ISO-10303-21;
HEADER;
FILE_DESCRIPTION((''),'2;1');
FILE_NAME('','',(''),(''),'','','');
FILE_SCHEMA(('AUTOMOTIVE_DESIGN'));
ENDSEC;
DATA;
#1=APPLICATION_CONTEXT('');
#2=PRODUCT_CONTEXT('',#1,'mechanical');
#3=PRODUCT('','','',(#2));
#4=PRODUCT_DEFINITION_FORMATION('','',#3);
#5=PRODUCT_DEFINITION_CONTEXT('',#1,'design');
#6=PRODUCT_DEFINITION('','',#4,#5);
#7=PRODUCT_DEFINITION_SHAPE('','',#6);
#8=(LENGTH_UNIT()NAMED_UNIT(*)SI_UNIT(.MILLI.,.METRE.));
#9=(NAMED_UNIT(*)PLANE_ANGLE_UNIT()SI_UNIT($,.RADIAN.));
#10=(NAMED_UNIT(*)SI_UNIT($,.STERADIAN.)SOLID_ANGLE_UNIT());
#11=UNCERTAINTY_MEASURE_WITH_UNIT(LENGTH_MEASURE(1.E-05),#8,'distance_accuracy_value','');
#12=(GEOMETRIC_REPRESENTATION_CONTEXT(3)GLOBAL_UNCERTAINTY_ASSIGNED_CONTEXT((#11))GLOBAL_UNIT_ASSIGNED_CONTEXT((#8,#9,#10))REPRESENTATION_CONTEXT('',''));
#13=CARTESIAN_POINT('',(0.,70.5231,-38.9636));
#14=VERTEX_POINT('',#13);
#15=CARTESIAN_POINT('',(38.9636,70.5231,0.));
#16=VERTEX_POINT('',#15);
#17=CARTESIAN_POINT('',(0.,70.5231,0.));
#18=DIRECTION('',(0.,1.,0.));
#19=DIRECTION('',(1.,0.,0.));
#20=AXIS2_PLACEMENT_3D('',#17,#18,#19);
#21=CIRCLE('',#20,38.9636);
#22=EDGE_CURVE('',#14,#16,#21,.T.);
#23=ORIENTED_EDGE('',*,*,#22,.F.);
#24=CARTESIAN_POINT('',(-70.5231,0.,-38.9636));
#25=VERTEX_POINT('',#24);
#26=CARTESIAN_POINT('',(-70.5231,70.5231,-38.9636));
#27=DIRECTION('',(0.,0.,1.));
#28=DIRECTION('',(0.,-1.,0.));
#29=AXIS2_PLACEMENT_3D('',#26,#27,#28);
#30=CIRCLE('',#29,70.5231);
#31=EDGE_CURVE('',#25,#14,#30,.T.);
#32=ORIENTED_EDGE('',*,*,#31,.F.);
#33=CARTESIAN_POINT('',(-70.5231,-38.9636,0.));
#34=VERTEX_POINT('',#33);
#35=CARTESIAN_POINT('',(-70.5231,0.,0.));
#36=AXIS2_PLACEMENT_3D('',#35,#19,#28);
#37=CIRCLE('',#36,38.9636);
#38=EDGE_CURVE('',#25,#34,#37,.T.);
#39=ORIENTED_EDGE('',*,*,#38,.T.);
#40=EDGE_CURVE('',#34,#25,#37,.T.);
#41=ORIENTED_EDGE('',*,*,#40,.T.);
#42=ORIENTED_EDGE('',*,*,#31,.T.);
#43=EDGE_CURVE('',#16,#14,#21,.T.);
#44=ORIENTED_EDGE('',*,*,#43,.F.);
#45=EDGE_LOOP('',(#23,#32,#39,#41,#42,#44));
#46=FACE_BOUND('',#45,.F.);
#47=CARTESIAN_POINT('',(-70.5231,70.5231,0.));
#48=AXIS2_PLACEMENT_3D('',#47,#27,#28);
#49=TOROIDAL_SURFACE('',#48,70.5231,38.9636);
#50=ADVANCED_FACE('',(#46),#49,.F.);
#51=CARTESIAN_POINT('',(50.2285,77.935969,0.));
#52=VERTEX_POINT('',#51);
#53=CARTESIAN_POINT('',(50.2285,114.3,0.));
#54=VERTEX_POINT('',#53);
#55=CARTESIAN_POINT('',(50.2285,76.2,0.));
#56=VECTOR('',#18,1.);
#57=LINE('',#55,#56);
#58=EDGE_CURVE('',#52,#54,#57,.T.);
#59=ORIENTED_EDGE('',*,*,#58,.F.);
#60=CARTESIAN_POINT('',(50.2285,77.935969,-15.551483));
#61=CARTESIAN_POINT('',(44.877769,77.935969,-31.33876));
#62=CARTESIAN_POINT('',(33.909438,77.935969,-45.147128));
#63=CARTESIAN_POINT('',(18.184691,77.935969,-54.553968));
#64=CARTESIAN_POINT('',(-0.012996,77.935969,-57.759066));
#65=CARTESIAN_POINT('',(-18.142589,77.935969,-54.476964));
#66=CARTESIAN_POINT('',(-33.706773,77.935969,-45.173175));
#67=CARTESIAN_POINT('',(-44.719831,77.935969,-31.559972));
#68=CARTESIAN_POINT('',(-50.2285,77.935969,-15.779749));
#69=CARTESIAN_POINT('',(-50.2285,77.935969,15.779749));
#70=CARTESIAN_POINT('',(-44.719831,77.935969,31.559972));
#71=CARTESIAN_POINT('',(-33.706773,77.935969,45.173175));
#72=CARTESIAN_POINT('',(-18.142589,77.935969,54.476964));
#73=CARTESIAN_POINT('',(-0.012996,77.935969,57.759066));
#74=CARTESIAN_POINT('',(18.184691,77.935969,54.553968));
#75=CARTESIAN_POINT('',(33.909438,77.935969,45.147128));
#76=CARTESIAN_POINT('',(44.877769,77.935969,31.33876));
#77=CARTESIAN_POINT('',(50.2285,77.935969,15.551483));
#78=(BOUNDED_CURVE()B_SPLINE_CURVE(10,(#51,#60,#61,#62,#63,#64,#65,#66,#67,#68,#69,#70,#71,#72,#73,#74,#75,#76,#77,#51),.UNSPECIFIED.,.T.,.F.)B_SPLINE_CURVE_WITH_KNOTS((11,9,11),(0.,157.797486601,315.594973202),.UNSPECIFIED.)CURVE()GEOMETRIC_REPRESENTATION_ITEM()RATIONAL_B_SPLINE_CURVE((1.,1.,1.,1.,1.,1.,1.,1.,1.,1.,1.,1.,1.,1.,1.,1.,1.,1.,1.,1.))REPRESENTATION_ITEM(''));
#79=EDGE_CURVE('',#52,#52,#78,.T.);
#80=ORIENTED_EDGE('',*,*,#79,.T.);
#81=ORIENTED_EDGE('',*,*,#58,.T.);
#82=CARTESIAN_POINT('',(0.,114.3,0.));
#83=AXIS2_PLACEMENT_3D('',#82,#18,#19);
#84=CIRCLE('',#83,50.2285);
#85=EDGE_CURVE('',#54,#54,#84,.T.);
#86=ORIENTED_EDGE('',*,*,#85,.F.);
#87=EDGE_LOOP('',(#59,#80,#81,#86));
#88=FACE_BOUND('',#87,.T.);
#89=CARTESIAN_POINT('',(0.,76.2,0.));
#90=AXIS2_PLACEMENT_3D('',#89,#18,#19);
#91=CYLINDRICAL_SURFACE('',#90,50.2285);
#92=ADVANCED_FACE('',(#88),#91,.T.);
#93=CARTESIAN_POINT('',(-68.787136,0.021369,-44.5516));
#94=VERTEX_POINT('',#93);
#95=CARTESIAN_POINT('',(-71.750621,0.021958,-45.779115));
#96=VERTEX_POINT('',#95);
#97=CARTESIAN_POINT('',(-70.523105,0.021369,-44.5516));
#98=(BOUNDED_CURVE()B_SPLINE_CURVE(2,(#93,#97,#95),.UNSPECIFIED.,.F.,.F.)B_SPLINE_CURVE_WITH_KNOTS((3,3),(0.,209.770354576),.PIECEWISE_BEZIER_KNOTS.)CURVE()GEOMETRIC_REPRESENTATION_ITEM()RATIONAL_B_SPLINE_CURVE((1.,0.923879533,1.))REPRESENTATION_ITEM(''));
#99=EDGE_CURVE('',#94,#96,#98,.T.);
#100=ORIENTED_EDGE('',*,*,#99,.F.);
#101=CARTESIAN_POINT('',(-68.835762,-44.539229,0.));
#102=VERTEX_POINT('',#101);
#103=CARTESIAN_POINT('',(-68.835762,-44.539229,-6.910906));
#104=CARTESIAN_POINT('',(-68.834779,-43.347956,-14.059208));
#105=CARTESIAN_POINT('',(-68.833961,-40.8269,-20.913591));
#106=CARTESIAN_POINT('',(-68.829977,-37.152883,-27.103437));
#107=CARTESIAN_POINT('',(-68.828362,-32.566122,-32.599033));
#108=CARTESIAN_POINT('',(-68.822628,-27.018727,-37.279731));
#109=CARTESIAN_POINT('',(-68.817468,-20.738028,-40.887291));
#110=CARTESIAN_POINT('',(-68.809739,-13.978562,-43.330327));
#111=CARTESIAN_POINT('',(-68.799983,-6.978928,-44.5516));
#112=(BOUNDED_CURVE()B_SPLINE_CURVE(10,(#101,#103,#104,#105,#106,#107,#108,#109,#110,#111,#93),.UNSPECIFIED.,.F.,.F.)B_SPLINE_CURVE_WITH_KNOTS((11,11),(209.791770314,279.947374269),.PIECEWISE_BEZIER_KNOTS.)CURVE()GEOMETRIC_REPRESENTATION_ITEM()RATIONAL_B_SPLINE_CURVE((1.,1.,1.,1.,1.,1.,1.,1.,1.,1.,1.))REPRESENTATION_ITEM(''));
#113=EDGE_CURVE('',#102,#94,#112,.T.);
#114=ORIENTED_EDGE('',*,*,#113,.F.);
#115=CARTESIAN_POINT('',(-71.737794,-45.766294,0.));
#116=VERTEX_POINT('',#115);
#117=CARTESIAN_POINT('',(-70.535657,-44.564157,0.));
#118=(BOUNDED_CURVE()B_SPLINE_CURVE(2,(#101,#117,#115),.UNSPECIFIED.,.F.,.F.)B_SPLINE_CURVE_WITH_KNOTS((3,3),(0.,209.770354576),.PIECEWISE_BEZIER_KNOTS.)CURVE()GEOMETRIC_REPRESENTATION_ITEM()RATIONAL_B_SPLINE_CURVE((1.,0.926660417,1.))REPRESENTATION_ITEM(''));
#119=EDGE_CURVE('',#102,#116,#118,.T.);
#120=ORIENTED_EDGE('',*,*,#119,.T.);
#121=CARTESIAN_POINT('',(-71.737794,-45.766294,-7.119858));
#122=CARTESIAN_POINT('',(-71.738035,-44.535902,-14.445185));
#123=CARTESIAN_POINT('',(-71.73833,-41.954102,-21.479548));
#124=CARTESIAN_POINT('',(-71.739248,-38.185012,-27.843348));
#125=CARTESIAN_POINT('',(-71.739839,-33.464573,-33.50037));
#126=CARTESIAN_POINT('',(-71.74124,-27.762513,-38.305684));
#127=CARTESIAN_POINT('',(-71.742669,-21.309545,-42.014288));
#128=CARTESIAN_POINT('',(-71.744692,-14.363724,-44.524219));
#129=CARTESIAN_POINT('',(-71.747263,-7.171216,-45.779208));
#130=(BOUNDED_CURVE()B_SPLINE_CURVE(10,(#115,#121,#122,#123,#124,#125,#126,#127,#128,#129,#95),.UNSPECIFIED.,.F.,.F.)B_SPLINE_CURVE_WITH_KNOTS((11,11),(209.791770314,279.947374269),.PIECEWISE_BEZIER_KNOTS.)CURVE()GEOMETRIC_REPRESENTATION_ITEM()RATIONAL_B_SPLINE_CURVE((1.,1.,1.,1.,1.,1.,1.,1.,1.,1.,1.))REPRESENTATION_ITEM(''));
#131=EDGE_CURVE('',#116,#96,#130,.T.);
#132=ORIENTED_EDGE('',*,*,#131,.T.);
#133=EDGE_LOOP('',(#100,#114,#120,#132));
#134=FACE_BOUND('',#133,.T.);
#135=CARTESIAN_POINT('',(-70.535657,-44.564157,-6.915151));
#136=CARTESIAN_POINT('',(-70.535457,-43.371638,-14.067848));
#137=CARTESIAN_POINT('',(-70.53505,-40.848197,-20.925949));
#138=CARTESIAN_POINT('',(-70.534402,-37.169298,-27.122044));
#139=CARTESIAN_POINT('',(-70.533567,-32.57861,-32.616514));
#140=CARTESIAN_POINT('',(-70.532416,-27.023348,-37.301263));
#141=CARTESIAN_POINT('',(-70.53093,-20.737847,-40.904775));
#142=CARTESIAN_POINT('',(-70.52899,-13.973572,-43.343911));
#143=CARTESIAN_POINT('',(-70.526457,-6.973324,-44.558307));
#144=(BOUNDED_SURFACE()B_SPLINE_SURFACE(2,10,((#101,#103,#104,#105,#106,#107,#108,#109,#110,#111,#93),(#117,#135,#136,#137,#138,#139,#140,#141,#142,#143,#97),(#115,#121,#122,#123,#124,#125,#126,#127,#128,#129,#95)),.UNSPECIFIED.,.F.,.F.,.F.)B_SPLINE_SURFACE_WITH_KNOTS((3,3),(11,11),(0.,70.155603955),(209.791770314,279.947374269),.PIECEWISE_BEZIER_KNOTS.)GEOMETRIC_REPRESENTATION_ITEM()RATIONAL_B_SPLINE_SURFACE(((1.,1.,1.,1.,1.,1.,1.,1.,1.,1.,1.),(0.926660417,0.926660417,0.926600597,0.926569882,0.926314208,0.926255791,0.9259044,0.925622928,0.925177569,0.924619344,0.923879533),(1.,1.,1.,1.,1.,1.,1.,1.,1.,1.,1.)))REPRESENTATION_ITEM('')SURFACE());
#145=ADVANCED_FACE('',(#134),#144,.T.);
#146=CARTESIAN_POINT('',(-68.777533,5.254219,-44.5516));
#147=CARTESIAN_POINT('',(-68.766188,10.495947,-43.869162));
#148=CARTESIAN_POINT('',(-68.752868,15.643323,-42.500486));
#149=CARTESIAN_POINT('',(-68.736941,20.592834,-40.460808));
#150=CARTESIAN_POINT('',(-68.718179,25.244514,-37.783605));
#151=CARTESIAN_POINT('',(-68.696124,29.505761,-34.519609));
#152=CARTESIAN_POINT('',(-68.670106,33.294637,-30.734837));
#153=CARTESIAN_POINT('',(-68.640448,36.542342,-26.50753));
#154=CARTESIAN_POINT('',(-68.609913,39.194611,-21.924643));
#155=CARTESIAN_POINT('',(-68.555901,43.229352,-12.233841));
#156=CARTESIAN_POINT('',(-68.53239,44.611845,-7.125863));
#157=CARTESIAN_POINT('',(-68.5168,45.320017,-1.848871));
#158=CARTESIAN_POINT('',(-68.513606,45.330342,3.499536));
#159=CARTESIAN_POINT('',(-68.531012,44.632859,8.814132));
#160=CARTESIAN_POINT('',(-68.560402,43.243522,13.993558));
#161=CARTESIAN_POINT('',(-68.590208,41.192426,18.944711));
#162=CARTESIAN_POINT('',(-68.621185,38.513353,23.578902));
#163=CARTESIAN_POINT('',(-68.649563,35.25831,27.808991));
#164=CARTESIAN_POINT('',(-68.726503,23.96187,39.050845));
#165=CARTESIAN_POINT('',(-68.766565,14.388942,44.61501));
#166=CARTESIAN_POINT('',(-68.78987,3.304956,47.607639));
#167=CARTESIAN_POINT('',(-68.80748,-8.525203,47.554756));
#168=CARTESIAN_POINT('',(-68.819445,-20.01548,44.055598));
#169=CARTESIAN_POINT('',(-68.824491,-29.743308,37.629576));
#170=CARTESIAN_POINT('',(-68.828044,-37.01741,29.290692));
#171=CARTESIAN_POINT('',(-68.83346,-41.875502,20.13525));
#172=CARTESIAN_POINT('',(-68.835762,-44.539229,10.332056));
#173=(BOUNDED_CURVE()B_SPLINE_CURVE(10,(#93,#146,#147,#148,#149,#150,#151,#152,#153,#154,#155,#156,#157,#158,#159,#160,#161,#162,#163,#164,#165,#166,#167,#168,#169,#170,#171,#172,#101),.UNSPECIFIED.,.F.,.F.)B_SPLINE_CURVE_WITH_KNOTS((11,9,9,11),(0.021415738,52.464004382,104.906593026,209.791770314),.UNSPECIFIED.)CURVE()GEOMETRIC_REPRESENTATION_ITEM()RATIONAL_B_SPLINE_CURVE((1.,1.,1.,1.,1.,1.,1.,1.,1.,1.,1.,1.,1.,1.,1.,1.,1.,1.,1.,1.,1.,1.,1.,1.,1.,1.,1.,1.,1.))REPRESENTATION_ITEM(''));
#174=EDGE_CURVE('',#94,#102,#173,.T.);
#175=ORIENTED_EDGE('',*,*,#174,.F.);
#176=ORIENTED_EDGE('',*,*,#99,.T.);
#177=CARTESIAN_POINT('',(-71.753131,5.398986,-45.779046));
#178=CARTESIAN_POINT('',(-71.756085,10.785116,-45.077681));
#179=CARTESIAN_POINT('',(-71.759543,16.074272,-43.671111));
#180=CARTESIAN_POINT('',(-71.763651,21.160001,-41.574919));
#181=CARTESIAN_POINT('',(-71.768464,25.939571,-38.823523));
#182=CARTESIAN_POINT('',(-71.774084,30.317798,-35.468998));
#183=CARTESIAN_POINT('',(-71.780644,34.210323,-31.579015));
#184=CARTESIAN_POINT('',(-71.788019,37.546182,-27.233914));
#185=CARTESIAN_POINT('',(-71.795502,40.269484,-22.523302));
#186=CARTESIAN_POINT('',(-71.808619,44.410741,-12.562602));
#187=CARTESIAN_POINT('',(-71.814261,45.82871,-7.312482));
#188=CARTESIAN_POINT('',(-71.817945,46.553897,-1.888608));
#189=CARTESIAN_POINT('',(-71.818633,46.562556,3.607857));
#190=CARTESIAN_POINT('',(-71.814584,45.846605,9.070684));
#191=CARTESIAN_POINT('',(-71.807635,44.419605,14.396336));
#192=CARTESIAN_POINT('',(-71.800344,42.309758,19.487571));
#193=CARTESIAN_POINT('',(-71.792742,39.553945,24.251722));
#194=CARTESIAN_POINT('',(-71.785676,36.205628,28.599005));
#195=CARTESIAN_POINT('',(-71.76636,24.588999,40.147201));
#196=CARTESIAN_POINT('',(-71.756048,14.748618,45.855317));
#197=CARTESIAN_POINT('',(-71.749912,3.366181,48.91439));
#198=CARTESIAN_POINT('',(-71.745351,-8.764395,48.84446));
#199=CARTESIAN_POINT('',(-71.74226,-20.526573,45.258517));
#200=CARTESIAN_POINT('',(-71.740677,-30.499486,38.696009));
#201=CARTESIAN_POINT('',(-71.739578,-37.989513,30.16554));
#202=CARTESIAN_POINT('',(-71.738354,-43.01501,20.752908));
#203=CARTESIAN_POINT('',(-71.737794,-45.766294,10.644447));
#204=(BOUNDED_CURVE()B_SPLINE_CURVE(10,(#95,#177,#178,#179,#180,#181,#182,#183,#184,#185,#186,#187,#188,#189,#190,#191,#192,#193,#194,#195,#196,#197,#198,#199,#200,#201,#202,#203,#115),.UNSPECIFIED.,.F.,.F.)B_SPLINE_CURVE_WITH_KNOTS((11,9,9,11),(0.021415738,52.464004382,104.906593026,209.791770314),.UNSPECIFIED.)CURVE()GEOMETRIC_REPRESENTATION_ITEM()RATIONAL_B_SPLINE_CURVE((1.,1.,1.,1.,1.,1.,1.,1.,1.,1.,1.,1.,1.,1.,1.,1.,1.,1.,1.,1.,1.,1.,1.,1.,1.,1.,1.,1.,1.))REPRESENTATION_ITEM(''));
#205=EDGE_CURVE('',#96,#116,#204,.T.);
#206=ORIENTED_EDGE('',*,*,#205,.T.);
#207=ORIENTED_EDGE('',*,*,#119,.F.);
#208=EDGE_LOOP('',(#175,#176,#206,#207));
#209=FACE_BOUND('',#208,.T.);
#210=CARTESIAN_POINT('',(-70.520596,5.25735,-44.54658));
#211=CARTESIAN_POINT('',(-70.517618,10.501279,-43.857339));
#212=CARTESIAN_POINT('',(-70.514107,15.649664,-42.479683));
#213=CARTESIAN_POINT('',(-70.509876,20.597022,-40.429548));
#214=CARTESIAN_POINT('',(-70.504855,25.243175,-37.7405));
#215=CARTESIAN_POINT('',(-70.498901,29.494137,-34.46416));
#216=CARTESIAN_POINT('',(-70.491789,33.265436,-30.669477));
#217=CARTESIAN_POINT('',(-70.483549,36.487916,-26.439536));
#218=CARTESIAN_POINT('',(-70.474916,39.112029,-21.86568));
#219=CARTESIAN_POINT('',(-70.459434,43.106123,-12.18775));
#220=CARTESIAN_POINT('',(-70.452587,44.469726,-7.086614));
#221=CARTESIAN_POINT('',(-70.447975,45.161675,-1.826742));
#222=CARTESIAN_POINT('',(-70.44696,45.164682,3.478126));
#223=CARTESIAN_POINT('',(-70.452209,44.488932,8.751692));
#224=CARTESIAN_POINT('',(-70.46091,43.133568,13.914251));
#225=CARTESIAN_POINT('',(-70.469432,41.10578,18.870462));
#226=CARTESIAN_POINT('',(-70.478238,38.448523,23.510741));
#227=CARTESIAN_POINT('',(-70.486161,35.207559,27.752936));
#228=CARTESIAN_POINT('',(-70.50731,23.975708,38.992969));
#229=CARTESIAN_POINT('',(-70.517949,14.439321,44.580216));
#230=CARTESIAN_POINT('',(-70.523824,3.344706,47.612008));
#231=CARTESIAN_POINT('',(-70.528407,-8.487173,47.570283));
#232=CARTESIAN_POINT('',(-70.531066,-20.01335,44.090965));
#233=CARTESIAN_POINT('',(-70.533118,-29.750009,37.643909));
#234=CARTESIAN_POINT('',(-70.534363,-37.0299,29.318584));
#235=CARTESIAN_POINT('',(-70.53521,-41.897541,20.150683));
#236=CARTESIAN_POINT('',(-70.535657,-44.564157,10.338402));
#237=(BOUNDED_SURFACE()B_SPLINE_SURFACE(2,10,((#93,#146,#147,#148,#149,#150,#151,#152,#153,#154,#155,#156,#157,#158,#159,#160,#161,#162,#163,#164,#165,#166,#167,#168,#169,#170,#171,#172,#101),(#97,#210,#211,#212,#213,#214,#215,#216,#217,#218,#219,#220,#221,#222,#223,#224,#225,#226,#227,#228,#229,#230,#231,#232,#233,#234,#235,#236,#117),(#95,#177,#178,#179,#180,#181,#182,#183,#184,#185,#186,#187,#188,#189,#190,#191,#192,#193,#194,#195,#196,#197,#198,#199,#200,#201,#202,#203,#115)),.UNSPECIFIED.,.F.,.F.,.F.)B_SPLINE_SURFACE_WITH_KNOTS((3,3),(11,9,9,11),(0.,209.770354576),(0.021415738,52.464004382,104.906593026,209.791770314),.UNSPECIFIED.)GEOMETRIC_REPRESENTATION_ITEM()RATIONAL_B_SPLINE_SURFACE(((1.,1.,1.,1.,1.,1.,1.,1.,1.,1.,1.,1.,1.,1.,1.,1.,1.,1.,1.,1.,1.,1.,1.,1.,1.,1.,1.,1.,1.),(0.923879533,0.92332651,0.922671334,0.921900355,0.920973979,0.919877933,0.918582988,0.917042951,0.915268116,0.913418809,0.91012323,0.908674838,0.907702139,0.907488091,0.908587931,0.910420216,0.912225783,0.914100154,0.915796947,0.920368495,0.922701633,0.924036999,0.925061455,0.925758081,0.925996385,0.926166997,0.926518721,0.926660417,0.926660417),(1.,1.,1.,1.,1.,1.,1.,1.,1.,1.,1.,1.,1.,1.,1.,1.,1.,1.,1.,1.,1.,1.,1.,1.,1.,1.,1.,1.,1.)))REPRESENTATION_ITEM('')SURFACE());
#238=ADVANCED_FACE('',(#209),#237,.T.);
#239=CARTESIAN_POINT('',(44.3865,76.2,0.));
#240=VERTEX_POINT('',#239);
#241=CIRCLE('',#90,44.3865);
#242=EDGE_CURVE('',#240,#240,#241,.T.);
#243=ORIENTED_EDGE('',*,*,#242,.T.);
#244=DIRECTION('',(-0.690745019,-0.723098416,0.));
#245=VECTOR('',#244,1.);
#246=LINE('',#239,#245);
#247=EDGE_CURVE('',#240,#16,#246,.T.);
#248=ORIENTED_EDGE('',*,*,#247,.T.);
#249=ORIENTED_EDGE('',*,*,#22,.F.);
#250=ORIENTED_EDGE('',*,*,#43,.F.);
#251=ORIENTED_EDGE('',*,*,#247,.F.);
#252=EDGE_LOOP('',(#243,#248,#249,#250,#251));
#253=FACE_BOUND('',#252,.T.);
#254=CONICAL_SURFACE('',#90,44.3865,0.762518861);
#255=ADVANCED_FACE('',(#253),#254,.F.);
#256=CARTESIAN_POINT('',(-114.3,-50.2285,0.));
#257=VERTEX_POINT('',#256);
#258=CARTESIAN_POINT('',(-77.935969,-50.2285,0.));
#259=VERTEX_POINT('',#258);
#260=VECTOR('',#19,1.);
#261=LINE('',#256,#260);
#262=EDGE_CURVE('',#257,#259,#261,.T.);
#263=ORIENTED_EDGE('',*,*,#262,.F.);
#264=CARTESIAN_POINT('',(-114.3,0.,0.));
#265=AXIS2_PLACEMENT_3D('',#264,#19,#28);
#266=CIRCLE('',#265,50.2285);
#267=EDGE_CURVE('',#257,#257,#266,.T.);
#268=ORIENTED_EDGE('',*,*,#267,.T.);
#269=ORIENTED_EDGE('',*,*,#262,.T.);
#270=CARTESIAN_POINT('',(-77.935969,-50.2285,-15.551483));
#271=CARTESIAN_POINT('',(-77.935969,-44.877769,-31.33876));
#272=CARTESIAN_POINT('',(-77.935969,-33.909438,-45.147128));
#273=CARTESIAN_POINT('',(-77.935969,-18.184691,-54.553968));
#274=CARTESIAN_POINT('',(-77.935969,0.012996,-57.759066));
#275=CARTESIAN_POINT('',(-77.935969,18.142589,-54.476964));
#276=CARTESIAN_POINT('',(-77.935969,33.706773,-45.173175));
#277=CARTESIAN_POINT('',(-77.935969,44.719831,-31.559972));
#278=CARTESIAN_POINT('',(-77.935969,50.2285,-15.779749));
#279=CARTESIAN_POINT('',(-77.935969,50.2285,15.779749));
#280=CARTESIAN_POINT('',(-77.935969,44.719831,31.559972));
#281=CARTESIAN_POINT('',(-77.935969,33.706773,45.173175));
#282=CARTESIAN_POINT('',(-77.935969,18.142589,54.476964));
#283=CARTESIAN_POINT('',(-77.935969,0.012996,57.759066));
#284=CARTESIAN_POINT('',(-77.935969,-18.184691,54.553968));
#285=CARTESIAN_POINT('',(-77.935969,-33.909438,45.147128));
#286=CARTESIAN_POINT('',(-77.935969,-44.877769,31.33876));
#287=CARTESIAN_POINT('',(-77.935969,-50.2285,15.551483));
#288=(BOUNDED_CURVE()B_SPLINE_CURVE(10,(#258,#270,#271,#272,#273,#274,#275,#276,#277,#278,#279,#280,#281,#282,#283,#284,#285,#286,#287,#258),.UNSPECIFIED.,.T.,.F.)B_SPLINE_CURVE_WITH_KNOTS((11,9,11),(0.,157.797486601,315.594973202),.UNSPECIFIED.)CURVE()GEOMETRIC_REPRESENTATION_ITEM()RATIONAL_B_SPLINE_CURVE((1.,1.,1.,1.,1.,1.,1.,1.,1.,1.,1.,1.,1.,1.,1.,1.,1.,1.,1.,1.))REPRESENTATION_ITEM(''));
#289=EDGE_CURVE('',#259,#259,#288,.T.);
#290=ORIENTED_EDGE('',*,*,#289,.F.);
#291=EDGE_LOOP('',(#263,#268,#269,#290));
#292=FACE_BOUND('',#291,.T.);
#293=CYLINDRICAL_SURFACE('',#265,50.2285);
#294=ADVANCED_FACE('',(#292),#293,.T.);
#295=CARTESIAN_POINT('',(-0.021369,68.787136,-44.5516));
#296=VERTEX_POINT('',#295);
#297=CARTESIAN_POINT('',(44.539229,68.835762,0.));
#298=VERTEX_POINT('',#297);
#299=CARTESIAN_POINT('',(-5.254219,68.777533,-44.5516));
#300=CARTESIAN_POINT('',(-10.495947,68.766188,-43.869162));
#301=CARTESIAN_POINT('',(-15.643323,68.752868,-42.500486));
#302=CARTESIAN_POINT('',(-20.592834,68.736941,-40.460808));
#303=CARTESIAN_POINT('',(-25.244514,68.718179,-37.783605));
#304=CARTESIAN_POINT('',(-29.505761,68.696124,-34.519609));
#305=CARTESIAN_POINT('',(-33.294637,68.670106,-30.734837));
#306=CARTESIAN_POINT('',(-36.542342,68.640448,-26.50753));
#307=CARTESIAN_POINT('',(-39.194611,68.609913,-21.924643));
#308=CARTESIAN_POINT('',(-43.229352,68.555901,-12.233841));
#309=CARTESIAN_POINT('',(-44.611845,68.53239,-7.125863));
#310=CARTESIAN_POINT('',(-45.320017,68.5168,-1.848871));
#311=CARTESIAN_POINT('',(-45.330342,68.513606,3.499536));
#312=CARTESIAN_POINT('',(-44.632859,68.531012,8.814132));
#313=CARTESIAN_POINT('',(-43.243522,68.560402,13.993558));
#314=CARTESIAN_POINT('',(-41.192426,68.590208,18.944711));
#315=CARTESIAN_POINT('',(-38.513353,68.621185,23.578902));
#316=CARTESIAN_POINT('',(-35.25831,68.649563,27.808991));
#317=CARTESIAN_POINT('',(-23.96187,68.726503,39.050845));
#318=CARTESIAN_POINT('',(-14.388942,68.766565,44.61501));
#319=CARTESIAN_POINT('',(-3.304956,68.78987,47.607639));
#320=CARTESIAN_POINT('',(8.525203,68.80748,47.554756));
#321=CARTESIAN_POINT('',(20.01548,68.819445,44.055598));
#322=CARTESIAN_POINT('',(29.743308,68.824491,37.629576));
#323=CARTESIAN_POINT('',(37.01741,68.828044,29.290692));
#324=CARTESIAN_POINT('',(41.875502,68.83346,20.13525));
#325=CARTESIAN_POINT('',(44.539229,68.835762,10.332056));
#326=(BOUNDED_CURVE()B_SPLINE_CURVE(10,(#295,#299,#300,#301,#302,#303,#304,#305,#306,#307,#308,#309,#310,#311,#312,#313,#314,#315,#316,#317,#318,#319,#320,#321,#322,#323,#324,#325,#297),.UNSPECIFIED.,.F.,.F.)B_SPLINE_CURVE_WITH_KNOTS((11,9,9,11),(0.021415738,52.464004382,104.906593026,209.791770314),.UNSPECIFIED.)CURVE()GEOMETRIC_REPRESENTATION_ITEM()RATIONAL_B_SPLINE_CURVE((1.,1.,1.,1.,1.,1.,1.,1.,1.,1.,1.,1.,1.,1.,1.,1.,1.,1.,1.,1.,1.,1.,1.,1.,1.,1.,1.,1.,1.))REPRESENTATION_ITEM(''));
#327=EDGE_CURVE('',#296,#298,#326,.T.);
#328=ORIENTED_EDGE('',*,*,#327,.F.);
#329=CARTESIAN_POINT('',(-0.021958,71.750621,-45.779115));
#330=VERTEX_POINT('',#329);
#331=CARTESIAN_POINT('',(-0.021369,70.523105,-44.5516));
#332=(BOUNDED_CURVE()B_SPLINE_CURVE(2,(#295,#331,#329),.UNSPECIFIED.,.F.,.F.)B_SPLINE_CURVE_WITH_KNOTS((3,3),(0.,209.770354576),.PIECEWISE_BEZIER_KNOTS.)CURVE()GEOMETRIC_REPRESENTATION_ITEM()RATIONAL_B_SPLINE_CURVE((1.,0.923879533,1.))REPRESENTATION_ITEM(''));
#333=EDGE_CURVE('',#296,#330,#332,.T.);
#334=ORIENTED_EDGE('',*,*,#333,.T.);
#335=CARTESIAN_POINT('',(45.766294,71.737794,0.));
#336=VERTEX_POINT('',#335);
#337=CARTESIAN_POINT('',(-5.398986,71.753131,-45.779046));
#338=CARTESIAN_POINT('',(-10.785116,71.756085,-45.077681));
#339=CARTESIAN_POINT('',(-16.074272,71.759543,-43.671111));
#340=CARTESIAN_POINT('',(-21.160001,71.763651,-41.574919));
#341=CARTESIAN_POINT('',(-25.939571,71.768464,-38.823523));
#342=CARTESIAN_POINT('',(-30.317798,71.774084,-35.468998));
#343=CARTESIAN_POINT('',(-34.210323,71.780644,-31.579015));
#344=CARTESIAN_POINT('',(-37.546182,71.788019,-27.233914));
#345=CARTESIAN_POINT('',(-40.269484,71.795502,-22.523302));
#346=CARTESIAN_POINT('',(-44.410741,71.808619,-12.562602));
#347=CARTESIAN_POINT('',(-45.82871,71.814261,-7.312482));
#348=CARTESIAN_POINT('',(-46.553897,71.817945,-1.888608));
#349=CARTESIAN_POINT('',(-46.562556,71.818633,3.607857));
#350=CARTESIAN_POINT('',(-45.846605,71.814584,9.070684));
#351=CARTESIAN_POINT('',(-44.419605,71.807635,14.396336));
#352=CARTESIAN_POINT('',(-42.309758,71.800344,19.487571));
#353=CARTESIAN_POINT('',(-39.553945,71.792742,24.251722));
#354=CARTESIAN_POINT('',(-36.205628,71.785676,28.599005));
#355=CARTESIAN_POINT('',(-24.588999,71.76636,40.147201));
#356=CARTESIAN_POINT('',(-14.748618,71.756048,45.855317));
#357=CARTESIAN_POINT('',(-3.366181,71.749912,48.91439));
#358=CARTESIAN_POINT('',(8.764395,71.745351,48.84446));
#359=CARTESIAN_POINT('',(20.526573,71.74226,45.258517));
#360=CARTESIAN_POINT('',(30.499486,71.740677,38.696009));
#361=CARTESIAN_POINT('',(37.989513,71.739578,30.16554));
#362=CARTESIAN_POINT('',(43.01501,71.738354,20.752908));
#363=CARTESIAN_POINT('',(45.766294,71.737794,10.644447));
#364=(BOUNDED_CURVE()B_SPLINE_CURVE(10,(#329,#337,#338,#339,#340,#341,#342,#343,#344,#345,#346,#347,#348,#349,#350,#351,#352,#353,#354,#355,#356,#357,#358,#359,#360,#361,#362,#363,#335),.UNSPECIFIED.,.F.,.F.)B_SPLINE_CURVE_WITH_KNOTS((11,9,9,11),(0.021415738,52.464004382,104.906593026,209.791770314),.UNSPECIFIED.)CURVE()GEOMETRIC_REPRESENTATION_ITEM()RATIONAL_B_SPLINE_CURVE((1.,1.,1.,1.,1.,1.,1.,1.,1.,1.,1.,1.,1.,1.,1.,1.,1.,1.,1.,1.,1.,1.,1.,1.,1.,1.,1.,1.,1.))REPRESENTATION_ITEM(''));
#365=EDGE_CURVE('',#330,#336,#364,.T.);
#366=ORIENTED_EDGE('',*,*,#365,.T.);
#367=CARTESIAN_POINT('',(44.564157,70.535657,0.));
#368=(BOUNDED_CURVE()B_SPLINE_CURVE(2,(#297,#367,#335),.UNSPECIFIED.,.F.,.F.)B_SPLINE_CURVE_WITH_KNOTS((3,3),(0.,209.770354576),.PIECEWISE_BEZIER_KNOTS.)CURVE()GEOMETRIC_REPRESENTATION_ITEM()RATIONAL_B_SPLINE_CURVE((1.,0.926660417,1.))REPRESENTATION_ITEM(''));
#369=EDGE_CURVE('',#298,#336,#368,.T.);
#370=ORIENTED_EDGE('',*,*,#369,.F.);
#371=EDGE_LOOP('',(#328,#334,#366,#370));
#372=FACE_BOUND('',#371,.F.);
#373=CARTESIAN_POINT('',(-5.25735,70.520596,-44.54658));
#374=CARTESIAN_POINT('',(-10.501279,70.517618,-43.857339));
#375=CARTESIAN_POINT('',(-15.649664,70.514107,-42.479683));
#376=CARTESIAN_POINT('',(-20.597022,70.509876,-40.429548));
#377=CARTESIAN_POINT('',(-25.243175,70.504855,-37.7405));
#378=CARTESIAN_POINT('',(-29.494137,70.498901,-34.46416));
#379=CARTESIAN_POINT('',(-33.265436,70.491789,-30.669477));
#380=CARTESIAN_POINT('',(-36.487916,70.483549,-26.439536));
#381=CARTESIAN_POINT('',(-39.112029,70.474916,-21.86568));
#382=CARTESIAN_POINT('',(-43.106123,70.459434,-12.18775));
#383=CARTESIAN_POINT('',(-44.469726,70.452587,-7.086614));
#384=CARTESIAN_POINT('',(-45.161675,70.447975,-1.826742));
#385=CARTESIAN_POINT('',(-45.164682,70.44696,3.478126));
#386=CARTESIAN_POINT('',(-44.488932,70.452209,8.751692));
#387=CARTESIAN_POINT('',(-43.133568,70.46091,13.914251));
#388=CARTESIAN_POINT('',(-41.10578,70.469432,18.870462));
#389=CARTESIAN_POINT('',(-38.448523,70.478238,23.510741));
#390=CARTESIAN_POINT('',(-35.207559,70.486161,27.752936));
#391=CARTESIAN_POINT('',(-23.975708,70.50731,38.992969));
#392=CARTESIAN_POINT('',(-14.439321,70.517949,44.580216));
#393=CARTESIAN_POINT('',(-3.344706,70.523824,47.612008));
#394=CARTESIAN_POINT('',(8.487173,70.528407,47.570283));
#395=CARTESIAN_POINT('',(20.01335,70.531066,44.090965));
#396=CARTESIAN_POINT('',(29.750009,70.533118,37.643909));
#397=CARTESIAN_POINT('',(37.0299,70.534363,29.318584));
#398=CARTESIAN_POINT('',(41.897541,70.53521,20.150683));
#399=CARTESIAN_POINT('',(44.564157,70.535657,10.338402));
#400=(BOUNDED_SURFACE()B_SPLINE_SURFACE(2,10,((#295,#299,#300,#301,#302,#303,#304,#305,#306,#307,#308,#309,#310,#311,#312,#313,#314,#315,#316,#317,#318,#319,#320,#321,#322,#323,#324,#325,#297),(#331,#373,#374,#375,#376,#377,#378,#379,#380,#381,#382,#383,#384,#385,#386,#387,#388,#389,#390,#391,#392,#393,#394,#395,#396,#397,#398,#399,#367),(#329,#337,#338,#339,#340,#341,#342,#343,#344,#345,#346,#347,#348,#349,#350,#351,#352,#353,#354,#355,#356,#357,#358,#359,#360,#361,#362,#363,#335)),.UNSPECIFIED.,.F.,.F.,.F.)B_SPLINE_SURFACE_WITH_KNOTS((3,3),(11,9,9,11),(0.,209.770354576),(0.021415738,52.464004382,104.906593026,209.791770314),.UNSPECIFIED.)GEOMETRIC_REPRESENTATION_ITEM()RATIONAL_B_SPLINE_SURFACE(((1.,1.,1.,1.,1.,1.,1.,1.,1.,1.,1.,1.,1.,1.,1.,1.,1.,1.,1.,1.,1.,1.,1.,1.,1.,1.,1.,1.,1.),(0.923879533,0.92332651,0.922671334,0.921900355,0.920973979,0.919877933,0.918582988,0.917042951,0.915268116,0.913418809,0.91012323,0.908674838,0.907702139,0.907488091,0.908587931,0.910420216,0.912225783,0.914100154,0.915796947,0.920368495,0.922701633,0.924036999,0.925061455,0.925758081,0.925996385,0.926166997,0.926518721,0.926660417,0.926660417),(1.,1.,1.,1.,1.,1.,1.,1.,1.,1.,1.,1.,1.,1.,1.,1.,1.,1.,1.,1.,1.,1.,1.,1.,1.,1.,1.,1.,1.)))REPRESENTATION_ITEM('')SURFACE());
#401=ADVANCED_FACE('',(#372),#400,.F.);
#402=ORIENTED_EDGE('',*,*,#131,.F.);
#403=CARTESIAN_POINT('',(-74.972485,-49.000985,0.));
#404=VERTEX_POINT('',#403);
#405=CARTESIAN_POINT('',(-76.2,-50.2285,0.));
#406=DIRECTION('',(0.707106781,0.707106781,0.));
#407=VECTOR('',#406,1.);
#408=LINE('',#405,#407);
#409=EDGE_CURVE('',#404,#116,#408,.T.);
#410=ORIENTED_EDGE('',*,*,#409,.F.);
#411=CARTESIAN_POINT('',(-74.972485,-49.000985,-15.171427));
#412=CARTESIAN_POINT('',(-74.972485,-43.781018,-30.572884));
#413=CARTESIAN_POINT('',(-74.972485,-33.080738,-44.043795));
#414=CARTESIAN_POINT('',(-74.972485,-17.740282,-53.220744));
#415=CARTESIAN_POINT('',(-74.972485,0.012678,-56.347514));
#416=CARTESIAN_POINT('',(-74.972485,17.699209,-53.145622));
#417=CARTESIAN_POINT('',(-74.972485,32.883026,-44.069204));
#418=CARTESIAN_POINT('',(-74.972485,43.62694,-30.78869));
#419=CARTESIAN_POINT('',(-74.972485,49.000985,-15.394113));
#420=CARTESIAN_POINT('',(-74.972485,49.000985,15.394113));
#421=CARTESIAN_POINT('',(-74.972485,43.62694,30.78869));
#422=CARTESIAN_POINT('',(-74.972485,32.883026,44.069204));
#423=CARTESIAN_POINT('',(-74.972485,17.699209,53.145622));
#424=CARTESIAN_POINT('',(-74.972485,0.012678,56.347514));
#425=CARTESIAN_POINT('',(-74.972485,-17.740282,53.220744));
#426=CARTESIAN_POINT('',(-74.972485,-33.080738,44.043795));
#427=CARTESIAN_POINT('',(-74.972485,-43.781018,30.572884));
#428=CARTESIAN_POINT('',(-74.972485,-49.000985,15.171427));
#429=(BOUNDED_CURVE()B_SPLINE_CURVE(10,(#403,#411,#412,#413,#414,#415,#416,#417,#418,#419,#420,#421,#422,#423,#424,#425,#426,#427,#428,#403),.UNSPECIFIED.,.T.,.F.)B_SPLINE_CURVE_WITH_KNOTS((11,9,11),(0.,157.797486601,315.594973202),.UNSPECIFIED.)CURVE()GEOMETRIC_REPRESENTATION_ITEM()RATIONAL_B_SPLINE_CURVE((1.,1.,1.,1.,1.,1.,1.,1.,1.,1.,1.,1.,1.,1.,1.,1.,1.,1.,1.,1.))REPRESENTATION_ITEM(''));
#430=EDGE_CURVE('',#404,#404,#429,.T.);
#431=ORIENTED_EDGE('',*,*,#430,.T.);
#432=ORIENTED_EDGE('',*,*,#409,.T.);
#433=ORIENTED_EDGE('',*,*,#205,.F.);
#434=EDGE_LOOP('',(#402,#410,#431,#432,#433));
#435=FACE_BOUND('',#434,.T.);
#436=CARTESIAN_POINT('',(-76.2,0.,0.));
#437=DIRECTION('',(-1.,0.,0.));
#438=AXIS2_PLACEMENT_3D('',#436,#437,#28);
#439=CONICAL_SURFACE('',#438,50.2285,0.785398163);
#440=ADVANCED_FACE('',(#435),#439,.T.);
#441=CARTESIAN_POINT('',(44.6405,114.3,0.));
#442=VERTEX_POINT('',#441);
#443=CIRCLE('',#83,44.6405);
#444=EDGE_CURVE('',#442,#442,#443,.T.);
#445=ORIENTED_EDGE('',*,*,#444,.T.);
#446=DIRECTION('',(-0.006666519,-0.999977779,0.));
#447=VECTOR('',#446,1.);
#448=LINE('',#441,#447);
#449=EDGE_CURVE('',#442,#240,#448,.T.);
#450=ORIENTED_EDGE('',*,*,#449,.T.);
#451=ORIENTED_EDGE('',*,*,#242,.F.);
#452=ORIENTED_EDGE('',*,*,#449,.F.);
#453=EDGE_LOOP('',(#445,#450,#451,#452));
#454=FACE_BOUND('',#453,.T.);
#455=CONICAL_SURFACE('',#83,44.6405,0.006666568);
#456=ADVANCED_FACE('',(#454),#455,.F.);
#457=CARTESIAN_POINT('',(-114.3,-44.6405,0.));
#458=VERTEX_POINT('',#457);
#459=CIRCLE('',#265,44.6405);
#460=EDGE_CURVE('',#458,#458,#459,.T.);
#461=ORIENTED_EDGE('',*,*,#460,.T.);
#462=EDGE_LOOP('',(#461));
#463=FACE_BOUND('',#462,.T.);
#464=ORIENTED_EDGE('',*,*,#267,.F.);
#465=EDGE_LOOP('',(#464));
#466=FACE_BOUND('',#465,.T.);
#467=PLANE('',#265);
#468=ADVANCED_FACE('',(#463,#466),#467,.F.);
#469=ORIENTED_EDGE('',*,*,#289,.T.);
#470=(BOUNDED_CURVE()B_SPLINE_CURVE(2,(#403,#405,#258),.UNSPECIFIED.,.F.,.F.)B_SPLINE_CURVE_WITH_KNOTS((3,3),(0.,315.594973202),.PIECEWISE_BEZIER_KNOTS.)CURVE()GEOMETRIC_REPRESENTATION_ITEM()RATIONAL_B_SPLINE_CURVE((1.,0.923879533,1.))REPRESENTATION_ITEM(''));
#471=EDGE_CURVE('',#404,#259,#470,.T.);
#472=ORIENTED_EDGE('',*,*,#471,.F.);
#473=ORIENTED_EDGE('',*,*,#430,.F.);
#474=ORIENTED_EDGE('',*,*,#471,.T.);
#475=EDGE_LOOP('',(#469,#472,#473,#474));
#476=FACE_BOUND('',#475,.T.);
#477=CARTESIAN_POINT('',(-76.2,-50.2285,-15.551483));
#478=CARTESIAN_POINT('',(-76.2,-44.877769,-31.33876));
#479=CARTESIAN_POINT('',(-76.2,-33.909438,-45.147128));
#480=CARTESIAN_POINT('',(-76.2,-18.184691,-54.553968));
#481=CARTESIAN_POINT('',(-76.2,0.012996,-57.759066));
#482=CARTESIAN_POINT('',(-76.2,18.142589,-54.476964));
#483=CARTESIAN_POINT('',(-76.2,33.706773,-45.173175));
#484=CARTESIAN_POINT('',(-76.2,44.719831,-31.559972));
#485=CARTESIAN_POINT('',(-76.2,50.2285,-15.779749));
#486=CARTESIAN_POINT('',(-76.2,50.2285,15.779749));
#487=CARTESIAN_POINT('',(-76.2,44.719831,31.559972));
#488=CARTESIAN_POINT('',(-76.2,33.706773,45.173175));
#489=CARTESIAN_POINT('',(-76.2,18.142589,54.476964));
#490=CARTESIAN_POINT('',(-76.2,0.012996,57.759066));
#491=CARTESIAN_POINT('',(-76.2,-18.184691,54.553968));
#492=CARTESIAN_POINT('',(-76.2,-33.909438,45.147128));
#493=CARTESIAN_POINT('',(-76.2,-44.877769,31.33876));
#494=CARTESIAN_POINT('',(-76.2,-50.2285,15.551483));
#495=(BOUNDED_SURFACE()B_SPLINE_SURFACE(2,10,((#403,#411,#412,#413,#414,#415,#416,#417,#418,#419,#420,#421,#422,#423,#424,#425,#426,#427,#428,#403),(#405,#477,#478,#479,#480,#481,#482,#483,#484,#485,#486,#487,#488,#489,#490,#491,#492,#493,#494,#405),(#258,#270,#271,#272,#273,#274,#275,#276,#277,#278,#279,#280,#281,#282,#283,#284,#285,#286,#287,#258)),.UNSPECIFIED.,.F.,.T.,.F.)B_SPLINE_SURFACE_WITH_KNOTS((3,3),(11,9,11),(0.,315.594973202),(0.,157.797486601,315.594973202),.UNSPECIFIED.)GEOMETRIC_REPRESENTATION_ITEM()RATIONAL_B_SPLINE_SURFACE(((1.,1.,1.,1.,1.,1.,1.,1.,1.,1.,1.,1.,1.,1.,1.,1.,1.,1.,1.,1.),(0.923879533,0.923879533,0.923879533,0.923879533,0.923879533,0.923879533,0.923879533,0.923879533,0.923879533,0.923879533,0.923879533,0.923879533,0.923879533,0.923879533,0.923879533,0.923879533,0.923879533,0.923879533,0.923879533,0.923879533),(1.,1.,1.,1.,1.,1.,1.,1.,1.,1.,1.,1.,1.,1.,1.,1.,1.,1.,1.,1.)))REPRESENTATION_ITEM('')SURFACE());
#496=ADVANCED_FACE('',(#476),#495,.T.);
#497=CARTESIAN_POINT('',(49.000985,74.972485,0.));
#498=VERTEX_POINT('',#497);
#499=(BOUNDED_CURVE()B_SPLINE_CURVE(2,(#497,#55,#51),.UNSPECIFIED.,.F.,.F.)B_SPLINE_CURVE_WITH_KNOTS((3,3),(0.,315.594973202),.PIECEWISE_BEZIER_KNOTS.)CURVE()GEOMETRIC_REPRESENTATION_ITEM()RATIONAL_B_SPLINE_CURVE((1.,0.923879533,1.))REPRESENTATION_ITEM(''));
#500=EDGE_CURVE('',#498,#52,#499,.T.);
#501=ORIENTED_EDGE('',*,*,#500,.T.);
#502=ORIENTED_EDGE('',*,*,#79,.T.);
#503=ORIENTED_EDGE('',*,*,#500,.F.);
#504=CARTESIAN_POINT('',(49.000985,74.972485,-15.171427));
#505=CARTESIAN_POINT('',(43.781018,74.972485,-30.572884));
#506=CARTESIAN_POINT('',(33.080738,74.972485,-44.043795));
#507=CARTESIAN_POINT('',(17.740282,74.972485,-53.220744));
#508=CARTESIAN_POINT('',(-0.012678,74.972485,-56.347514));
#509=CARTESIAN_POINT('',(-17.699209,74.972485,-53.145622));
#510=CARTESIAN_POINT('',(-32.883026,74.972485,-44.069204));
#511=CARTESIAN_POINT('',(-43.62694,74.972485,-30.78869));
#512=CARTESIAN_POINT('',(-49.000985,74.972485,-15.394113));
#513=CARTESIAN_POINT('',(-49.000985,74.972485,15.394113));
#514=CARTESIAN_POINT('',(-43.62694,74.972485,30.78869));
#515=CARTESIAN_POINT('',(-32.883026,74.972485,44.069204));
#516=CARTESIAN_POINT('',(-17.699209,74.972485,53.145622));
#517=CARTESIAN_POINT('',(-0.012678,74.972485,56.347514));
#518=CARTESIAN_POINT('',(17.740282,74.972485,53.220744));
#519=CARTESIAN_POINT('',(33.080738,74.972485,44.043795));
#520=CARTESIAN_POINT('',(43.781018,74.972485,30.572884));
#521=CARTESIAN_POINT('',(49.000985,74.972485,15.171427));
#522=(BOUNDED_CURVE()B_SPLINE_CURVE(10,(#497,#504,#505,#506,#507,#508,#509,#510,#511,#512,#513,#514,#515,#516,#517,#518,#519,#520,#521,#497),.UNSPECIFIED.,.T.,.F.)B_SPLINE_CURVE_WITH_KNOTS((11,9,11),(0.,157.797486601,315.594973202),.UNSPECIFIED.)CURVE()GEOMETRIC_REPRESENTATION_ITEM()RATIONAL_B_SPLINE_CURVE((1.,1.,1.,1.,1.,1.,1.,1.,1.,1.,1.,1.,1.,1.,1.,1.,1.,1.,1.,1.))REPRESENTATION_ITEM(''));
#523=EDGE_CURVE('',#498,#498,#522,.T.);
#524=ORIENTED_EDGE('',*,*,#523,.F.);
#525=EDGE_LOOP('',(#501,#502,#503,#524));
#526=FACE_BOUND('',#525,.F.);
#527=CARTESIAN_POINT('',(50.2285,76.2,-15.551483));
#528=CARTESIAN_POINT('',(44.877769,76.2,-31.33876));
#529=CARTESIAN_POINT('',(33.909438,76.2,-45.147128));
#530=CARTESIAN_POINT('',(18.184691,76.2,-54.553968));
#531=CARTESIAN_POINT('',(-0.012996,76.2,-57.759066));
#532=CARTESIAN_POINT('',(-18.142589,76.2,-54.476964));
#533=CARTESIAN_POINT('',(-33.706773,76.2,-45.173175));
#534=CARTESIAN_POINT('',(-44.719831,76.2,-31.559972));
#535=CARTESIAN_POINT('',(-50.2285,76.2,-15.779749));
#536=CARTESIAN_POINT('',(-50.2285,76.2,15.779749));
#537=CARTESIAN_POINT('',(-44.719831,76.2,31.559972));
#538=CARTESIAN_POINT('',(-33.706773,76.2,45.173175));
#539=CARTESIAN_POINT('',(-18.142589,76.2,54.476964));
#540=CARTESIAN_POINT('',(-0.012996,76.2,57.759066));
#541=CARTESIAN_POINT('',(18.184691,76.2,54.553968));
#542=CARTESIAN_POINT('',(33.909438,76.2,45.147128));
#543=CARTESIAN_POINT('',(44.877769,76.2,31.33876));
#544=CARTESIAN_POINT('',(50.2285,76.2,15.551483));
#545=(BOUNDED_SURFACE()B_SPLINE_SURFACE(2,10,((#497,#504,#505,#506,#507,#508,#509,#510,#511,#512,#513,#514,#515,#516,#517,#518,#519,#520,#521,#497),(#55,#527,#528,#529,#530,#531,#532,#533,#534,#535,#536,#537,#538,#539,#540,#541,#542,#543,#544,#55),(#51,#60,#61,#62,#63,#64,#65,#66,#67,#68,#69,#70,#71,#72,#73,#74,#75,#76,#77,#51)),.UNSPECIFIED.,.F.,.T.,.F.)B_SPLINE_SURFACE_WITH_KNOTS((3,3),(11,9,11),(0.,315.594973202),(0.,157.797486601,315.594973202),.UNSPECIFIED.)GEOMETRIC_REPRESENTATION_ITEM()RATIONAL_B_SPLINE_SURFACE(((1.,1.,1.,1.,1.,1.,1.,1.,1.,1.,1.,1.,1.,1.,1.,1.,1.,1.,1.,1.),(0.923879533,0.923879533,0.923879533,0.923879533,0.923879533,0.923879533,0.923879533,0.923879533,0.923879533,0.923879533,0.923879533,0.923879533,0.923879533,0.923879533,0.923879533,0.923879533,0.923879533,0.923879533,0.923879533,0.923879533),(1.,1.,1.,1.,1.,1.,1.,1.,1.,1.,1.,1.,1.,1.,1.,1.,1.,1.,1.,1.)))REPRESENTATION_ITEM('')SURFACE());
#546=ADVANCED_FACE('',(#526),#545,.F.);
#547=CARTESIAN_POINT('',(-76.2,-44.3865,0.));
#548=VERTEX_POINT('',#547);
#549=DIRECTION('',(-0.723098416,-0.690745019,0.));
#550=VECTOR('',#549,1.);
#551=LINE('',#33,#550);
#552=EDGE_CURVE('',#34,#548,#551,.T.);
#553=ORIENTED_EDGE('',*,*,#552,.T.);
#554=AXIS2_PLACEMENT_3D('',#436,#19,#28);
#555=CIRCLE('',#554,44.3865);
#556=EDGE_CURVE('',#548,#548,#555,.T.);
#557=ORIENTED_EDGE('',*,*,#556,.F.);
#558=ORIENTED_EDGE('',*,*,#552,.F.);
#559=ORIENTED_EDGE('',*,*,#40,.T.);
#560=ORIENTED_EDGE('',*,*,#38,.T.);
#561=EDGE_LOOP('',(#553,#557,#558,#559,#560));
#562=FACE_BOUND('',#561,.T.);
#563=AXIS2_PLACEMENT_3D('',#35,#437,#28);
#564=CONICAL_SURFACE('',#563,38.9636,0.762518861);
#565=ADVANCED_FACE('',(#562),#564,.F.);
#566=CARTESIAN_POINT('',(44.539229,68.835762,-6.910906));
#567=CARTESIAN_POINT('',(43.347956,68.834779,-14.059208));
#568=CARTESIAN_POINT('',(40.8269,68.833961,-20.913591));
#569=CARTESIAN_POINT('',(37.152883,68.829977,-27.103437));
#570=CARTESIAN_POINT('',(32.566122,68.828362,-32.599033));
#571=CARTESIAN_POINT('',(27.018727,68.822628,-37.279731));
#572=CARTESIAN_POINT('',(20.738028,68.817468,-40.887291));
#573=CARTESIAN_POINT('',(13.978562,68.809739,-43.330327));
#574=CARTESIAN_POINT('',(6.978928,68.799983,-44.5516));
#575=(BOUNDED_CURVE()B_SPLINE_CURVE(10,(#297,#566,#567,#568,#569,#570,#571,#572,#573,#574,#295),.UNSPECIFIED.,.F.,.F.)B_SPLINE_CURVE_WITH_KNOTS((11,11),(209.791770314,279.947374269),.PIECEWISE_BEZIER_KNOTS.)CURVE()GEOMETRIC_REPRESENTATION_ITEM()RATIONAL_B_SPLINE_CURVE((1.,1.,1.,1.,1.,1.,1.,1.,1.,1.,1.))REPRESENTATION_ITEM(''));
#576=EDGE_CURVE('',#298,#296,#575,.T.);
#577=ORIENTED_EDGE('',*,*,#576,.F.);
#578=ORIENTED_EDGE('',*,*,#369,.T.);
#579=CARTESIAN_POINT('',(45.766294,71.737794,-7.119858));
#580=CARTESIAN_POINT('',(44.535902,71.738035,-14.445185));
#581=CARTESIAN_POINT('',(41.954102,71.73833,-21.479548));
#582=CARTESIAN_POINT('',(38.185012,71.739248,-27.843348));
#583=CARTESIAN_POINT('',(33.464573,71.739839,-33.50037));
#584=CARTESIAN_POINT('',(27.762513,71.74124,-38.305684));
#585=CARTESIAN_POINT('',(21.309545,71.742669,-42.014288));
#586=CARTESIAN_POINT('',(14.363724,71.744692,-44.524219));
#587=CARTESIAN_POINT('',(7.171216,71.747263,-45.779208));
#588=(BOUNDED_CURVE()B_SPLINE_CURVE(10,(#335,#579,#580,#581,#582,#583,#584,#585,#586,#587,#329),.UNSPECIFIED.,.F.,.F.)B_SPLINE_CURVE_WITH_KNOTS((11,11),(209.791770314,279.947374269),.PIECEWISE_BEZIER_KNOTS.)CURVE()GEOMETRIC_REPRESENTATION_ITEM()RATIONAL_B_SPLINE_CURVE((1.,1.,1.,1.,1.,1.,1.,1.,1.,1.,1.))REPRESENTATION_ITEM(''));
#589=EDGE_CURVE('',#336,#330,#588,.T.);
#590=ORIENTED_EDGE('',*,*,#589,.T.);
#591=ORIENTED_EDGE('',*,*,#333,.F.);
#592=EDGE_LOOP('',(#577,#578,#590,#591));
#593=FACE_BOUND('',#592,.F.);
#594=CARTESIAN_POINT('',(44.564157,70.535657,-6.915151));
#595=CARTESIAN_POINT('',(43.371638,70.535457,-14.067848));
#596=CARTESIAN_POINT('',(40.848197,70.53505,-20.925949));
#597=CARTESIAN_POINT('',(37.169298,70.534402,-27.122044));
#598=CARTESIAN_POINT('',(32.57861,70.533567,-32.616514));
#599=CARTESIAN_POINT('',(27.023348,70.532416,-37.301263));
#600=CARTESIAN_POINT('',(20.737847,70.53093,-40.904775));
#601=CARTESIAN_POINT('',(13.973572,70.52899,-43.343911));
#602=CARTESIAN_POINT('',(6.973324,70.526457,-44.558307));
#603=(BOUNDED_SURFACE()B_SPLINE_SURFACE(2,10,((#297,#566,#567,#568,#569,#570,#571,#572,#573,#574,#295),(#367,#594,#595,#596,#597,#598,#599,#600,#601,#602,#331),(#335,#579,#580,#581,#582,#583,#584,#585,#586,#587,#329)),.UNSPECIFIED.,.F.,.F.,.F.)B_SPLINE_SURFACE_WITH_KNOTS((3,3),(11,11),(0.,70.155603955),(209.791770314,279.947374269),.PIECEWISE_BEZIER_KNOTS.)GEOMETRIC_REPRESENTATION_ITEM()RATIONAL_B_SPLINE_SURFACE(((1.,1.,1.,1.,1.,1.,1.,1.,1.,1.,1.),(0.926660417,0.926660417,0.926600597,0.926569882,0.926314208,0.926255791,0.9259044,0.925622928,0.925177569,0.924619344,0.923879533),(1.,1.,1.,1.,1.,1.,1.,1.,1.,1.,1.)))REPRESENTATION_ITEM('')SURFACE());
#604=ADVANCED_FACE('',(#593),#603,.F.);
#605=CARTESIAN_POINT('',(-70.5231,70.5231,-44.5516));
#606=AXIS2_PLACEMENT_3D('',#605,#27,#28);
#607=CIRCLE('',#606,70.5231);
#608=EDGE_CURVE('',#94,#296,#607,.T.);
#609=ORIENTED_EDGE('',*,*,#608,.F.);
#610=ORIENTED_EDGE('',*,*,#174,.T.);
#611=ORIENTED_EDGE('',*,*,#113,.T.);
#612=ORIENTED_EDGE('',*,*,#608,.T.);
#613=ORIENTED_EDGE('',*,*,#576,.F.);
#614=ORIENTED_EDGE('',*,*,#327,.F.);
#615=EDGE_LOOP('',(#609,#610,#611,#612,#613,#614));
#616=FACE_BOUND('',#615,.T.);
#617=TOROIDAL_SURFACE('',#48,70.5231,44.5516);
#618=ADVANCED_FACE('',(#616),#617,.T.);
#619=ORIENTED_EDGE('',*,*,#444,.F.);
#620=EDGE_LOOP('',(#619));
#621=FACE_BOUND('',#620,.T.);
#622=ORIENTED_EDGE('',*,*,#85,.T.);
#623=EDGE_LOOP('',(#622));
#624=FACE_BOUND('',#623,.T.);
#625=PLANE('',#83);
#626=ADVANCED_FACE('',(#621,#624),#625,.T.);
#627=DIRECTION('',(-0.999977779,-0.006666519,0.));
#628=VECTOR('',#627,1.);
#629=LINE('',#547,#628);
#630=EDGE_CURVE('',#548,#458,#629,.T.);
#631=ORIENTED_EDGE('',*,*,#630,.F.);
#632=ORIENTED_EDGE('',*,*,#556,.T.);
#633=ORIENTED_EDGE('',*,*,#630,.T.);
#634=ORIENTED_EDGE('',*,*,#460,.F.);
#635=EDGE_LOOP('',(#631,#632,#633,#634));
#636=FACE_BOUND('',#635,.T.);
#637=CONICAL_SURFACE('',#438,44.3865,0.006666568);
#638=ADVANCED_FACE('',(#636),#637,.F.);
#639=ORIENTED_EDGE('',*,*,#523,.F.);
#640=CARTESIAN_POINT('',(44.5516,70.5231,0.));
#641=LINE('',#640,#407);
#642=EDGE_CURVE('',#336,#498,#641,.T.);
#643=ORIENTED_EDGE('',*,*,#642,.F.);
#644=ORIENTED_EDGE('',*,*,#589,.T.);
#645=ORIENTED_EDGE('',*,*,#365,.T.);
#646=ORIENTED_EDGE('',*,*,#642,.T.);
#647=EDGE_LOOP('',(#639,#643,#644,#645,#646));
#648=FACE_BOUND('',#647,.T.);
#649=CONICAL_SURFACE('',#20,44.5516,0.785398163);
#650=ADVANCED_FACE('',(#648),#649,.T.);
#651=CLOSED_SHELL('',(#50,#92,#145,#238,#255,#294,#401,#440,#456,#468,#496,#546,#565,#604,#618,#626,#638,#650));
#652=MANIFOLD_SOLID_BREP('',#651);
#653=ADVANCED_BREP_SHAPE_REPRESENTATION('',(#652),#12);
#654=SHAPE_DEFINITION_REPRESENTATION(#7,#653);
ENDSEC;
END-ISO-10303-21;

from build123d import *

# Parameters (mm, degrees)
SKETCH3_R   = 44.5516
SKETCH3_R_2 = 38.9636
FILLET1_R   = 4.191


with BuildPart() as part:
    # Sketch1 → Revolve1 (revolve)
    with BuildSketch(Plane.XY):
        Polygon((-76.2, -50.2285), (-70.5231, -44.5516), (-70.5231, -38.9636), (-76.2, -44.3865), (-114.3, -44.6405), (-114.3, -50.2285), align=None)
    revolve(axis=Axis((-114.3, 0, 0), (1, 0, 0)))



with BuildPart() as body_2:
    # Sketch2 → Revolve2 (revolve)
    with BuildSketch(Plane.XY):
        Polygon((44.6405, 114.3), (44.3865, 76.2), (38.9636, 70.5231), (44.5516, 70.5231), (50.2285, 76.2), (50.2285, 114.3), align=None)
    revolve(axis=Axis((0, 0, 0), (0, 1, 0)))


with BuildPart() as part_1:
    add(part.part)

    add(body_2.part)  # Sweep1 merges body 2
    # Sweep1: sweep along a path in Sketch4
    with BuildLine(Plane.XY) as sweep1_path:
        ThreePointArc((-70.5231, 0), (-20.65573776, 20.65573776), (0, 70.5231))
    # Sketch3 → Sweep1 (sweep)
    with BuildSketch(Plane(origin=(-70.5231, 0, 0), x_dir=(0, 0, -1), z_dir=(1, 0, 0))):
        Circle(SKETCH3_R)
        Circle(SKETCH3_R_2, mode=Mode.SUBTRACT)
    sweep(path=sweep1_path.line)

    # Fillet1
    fillet1_edges = [part_1.edges().sort_by_distance(p)[0] for p in [
        (-70.5231, 31.502738473, 31.502738473),
        (-31.502738473, 70.5231, 31.502738473),
        (-50.2285, 76.2, 0),
        (-76.2, 50.2285, 0),
    ]]
    fillet(fillet1_edges, radius=FILLET1_R)


solid = part_1.part
